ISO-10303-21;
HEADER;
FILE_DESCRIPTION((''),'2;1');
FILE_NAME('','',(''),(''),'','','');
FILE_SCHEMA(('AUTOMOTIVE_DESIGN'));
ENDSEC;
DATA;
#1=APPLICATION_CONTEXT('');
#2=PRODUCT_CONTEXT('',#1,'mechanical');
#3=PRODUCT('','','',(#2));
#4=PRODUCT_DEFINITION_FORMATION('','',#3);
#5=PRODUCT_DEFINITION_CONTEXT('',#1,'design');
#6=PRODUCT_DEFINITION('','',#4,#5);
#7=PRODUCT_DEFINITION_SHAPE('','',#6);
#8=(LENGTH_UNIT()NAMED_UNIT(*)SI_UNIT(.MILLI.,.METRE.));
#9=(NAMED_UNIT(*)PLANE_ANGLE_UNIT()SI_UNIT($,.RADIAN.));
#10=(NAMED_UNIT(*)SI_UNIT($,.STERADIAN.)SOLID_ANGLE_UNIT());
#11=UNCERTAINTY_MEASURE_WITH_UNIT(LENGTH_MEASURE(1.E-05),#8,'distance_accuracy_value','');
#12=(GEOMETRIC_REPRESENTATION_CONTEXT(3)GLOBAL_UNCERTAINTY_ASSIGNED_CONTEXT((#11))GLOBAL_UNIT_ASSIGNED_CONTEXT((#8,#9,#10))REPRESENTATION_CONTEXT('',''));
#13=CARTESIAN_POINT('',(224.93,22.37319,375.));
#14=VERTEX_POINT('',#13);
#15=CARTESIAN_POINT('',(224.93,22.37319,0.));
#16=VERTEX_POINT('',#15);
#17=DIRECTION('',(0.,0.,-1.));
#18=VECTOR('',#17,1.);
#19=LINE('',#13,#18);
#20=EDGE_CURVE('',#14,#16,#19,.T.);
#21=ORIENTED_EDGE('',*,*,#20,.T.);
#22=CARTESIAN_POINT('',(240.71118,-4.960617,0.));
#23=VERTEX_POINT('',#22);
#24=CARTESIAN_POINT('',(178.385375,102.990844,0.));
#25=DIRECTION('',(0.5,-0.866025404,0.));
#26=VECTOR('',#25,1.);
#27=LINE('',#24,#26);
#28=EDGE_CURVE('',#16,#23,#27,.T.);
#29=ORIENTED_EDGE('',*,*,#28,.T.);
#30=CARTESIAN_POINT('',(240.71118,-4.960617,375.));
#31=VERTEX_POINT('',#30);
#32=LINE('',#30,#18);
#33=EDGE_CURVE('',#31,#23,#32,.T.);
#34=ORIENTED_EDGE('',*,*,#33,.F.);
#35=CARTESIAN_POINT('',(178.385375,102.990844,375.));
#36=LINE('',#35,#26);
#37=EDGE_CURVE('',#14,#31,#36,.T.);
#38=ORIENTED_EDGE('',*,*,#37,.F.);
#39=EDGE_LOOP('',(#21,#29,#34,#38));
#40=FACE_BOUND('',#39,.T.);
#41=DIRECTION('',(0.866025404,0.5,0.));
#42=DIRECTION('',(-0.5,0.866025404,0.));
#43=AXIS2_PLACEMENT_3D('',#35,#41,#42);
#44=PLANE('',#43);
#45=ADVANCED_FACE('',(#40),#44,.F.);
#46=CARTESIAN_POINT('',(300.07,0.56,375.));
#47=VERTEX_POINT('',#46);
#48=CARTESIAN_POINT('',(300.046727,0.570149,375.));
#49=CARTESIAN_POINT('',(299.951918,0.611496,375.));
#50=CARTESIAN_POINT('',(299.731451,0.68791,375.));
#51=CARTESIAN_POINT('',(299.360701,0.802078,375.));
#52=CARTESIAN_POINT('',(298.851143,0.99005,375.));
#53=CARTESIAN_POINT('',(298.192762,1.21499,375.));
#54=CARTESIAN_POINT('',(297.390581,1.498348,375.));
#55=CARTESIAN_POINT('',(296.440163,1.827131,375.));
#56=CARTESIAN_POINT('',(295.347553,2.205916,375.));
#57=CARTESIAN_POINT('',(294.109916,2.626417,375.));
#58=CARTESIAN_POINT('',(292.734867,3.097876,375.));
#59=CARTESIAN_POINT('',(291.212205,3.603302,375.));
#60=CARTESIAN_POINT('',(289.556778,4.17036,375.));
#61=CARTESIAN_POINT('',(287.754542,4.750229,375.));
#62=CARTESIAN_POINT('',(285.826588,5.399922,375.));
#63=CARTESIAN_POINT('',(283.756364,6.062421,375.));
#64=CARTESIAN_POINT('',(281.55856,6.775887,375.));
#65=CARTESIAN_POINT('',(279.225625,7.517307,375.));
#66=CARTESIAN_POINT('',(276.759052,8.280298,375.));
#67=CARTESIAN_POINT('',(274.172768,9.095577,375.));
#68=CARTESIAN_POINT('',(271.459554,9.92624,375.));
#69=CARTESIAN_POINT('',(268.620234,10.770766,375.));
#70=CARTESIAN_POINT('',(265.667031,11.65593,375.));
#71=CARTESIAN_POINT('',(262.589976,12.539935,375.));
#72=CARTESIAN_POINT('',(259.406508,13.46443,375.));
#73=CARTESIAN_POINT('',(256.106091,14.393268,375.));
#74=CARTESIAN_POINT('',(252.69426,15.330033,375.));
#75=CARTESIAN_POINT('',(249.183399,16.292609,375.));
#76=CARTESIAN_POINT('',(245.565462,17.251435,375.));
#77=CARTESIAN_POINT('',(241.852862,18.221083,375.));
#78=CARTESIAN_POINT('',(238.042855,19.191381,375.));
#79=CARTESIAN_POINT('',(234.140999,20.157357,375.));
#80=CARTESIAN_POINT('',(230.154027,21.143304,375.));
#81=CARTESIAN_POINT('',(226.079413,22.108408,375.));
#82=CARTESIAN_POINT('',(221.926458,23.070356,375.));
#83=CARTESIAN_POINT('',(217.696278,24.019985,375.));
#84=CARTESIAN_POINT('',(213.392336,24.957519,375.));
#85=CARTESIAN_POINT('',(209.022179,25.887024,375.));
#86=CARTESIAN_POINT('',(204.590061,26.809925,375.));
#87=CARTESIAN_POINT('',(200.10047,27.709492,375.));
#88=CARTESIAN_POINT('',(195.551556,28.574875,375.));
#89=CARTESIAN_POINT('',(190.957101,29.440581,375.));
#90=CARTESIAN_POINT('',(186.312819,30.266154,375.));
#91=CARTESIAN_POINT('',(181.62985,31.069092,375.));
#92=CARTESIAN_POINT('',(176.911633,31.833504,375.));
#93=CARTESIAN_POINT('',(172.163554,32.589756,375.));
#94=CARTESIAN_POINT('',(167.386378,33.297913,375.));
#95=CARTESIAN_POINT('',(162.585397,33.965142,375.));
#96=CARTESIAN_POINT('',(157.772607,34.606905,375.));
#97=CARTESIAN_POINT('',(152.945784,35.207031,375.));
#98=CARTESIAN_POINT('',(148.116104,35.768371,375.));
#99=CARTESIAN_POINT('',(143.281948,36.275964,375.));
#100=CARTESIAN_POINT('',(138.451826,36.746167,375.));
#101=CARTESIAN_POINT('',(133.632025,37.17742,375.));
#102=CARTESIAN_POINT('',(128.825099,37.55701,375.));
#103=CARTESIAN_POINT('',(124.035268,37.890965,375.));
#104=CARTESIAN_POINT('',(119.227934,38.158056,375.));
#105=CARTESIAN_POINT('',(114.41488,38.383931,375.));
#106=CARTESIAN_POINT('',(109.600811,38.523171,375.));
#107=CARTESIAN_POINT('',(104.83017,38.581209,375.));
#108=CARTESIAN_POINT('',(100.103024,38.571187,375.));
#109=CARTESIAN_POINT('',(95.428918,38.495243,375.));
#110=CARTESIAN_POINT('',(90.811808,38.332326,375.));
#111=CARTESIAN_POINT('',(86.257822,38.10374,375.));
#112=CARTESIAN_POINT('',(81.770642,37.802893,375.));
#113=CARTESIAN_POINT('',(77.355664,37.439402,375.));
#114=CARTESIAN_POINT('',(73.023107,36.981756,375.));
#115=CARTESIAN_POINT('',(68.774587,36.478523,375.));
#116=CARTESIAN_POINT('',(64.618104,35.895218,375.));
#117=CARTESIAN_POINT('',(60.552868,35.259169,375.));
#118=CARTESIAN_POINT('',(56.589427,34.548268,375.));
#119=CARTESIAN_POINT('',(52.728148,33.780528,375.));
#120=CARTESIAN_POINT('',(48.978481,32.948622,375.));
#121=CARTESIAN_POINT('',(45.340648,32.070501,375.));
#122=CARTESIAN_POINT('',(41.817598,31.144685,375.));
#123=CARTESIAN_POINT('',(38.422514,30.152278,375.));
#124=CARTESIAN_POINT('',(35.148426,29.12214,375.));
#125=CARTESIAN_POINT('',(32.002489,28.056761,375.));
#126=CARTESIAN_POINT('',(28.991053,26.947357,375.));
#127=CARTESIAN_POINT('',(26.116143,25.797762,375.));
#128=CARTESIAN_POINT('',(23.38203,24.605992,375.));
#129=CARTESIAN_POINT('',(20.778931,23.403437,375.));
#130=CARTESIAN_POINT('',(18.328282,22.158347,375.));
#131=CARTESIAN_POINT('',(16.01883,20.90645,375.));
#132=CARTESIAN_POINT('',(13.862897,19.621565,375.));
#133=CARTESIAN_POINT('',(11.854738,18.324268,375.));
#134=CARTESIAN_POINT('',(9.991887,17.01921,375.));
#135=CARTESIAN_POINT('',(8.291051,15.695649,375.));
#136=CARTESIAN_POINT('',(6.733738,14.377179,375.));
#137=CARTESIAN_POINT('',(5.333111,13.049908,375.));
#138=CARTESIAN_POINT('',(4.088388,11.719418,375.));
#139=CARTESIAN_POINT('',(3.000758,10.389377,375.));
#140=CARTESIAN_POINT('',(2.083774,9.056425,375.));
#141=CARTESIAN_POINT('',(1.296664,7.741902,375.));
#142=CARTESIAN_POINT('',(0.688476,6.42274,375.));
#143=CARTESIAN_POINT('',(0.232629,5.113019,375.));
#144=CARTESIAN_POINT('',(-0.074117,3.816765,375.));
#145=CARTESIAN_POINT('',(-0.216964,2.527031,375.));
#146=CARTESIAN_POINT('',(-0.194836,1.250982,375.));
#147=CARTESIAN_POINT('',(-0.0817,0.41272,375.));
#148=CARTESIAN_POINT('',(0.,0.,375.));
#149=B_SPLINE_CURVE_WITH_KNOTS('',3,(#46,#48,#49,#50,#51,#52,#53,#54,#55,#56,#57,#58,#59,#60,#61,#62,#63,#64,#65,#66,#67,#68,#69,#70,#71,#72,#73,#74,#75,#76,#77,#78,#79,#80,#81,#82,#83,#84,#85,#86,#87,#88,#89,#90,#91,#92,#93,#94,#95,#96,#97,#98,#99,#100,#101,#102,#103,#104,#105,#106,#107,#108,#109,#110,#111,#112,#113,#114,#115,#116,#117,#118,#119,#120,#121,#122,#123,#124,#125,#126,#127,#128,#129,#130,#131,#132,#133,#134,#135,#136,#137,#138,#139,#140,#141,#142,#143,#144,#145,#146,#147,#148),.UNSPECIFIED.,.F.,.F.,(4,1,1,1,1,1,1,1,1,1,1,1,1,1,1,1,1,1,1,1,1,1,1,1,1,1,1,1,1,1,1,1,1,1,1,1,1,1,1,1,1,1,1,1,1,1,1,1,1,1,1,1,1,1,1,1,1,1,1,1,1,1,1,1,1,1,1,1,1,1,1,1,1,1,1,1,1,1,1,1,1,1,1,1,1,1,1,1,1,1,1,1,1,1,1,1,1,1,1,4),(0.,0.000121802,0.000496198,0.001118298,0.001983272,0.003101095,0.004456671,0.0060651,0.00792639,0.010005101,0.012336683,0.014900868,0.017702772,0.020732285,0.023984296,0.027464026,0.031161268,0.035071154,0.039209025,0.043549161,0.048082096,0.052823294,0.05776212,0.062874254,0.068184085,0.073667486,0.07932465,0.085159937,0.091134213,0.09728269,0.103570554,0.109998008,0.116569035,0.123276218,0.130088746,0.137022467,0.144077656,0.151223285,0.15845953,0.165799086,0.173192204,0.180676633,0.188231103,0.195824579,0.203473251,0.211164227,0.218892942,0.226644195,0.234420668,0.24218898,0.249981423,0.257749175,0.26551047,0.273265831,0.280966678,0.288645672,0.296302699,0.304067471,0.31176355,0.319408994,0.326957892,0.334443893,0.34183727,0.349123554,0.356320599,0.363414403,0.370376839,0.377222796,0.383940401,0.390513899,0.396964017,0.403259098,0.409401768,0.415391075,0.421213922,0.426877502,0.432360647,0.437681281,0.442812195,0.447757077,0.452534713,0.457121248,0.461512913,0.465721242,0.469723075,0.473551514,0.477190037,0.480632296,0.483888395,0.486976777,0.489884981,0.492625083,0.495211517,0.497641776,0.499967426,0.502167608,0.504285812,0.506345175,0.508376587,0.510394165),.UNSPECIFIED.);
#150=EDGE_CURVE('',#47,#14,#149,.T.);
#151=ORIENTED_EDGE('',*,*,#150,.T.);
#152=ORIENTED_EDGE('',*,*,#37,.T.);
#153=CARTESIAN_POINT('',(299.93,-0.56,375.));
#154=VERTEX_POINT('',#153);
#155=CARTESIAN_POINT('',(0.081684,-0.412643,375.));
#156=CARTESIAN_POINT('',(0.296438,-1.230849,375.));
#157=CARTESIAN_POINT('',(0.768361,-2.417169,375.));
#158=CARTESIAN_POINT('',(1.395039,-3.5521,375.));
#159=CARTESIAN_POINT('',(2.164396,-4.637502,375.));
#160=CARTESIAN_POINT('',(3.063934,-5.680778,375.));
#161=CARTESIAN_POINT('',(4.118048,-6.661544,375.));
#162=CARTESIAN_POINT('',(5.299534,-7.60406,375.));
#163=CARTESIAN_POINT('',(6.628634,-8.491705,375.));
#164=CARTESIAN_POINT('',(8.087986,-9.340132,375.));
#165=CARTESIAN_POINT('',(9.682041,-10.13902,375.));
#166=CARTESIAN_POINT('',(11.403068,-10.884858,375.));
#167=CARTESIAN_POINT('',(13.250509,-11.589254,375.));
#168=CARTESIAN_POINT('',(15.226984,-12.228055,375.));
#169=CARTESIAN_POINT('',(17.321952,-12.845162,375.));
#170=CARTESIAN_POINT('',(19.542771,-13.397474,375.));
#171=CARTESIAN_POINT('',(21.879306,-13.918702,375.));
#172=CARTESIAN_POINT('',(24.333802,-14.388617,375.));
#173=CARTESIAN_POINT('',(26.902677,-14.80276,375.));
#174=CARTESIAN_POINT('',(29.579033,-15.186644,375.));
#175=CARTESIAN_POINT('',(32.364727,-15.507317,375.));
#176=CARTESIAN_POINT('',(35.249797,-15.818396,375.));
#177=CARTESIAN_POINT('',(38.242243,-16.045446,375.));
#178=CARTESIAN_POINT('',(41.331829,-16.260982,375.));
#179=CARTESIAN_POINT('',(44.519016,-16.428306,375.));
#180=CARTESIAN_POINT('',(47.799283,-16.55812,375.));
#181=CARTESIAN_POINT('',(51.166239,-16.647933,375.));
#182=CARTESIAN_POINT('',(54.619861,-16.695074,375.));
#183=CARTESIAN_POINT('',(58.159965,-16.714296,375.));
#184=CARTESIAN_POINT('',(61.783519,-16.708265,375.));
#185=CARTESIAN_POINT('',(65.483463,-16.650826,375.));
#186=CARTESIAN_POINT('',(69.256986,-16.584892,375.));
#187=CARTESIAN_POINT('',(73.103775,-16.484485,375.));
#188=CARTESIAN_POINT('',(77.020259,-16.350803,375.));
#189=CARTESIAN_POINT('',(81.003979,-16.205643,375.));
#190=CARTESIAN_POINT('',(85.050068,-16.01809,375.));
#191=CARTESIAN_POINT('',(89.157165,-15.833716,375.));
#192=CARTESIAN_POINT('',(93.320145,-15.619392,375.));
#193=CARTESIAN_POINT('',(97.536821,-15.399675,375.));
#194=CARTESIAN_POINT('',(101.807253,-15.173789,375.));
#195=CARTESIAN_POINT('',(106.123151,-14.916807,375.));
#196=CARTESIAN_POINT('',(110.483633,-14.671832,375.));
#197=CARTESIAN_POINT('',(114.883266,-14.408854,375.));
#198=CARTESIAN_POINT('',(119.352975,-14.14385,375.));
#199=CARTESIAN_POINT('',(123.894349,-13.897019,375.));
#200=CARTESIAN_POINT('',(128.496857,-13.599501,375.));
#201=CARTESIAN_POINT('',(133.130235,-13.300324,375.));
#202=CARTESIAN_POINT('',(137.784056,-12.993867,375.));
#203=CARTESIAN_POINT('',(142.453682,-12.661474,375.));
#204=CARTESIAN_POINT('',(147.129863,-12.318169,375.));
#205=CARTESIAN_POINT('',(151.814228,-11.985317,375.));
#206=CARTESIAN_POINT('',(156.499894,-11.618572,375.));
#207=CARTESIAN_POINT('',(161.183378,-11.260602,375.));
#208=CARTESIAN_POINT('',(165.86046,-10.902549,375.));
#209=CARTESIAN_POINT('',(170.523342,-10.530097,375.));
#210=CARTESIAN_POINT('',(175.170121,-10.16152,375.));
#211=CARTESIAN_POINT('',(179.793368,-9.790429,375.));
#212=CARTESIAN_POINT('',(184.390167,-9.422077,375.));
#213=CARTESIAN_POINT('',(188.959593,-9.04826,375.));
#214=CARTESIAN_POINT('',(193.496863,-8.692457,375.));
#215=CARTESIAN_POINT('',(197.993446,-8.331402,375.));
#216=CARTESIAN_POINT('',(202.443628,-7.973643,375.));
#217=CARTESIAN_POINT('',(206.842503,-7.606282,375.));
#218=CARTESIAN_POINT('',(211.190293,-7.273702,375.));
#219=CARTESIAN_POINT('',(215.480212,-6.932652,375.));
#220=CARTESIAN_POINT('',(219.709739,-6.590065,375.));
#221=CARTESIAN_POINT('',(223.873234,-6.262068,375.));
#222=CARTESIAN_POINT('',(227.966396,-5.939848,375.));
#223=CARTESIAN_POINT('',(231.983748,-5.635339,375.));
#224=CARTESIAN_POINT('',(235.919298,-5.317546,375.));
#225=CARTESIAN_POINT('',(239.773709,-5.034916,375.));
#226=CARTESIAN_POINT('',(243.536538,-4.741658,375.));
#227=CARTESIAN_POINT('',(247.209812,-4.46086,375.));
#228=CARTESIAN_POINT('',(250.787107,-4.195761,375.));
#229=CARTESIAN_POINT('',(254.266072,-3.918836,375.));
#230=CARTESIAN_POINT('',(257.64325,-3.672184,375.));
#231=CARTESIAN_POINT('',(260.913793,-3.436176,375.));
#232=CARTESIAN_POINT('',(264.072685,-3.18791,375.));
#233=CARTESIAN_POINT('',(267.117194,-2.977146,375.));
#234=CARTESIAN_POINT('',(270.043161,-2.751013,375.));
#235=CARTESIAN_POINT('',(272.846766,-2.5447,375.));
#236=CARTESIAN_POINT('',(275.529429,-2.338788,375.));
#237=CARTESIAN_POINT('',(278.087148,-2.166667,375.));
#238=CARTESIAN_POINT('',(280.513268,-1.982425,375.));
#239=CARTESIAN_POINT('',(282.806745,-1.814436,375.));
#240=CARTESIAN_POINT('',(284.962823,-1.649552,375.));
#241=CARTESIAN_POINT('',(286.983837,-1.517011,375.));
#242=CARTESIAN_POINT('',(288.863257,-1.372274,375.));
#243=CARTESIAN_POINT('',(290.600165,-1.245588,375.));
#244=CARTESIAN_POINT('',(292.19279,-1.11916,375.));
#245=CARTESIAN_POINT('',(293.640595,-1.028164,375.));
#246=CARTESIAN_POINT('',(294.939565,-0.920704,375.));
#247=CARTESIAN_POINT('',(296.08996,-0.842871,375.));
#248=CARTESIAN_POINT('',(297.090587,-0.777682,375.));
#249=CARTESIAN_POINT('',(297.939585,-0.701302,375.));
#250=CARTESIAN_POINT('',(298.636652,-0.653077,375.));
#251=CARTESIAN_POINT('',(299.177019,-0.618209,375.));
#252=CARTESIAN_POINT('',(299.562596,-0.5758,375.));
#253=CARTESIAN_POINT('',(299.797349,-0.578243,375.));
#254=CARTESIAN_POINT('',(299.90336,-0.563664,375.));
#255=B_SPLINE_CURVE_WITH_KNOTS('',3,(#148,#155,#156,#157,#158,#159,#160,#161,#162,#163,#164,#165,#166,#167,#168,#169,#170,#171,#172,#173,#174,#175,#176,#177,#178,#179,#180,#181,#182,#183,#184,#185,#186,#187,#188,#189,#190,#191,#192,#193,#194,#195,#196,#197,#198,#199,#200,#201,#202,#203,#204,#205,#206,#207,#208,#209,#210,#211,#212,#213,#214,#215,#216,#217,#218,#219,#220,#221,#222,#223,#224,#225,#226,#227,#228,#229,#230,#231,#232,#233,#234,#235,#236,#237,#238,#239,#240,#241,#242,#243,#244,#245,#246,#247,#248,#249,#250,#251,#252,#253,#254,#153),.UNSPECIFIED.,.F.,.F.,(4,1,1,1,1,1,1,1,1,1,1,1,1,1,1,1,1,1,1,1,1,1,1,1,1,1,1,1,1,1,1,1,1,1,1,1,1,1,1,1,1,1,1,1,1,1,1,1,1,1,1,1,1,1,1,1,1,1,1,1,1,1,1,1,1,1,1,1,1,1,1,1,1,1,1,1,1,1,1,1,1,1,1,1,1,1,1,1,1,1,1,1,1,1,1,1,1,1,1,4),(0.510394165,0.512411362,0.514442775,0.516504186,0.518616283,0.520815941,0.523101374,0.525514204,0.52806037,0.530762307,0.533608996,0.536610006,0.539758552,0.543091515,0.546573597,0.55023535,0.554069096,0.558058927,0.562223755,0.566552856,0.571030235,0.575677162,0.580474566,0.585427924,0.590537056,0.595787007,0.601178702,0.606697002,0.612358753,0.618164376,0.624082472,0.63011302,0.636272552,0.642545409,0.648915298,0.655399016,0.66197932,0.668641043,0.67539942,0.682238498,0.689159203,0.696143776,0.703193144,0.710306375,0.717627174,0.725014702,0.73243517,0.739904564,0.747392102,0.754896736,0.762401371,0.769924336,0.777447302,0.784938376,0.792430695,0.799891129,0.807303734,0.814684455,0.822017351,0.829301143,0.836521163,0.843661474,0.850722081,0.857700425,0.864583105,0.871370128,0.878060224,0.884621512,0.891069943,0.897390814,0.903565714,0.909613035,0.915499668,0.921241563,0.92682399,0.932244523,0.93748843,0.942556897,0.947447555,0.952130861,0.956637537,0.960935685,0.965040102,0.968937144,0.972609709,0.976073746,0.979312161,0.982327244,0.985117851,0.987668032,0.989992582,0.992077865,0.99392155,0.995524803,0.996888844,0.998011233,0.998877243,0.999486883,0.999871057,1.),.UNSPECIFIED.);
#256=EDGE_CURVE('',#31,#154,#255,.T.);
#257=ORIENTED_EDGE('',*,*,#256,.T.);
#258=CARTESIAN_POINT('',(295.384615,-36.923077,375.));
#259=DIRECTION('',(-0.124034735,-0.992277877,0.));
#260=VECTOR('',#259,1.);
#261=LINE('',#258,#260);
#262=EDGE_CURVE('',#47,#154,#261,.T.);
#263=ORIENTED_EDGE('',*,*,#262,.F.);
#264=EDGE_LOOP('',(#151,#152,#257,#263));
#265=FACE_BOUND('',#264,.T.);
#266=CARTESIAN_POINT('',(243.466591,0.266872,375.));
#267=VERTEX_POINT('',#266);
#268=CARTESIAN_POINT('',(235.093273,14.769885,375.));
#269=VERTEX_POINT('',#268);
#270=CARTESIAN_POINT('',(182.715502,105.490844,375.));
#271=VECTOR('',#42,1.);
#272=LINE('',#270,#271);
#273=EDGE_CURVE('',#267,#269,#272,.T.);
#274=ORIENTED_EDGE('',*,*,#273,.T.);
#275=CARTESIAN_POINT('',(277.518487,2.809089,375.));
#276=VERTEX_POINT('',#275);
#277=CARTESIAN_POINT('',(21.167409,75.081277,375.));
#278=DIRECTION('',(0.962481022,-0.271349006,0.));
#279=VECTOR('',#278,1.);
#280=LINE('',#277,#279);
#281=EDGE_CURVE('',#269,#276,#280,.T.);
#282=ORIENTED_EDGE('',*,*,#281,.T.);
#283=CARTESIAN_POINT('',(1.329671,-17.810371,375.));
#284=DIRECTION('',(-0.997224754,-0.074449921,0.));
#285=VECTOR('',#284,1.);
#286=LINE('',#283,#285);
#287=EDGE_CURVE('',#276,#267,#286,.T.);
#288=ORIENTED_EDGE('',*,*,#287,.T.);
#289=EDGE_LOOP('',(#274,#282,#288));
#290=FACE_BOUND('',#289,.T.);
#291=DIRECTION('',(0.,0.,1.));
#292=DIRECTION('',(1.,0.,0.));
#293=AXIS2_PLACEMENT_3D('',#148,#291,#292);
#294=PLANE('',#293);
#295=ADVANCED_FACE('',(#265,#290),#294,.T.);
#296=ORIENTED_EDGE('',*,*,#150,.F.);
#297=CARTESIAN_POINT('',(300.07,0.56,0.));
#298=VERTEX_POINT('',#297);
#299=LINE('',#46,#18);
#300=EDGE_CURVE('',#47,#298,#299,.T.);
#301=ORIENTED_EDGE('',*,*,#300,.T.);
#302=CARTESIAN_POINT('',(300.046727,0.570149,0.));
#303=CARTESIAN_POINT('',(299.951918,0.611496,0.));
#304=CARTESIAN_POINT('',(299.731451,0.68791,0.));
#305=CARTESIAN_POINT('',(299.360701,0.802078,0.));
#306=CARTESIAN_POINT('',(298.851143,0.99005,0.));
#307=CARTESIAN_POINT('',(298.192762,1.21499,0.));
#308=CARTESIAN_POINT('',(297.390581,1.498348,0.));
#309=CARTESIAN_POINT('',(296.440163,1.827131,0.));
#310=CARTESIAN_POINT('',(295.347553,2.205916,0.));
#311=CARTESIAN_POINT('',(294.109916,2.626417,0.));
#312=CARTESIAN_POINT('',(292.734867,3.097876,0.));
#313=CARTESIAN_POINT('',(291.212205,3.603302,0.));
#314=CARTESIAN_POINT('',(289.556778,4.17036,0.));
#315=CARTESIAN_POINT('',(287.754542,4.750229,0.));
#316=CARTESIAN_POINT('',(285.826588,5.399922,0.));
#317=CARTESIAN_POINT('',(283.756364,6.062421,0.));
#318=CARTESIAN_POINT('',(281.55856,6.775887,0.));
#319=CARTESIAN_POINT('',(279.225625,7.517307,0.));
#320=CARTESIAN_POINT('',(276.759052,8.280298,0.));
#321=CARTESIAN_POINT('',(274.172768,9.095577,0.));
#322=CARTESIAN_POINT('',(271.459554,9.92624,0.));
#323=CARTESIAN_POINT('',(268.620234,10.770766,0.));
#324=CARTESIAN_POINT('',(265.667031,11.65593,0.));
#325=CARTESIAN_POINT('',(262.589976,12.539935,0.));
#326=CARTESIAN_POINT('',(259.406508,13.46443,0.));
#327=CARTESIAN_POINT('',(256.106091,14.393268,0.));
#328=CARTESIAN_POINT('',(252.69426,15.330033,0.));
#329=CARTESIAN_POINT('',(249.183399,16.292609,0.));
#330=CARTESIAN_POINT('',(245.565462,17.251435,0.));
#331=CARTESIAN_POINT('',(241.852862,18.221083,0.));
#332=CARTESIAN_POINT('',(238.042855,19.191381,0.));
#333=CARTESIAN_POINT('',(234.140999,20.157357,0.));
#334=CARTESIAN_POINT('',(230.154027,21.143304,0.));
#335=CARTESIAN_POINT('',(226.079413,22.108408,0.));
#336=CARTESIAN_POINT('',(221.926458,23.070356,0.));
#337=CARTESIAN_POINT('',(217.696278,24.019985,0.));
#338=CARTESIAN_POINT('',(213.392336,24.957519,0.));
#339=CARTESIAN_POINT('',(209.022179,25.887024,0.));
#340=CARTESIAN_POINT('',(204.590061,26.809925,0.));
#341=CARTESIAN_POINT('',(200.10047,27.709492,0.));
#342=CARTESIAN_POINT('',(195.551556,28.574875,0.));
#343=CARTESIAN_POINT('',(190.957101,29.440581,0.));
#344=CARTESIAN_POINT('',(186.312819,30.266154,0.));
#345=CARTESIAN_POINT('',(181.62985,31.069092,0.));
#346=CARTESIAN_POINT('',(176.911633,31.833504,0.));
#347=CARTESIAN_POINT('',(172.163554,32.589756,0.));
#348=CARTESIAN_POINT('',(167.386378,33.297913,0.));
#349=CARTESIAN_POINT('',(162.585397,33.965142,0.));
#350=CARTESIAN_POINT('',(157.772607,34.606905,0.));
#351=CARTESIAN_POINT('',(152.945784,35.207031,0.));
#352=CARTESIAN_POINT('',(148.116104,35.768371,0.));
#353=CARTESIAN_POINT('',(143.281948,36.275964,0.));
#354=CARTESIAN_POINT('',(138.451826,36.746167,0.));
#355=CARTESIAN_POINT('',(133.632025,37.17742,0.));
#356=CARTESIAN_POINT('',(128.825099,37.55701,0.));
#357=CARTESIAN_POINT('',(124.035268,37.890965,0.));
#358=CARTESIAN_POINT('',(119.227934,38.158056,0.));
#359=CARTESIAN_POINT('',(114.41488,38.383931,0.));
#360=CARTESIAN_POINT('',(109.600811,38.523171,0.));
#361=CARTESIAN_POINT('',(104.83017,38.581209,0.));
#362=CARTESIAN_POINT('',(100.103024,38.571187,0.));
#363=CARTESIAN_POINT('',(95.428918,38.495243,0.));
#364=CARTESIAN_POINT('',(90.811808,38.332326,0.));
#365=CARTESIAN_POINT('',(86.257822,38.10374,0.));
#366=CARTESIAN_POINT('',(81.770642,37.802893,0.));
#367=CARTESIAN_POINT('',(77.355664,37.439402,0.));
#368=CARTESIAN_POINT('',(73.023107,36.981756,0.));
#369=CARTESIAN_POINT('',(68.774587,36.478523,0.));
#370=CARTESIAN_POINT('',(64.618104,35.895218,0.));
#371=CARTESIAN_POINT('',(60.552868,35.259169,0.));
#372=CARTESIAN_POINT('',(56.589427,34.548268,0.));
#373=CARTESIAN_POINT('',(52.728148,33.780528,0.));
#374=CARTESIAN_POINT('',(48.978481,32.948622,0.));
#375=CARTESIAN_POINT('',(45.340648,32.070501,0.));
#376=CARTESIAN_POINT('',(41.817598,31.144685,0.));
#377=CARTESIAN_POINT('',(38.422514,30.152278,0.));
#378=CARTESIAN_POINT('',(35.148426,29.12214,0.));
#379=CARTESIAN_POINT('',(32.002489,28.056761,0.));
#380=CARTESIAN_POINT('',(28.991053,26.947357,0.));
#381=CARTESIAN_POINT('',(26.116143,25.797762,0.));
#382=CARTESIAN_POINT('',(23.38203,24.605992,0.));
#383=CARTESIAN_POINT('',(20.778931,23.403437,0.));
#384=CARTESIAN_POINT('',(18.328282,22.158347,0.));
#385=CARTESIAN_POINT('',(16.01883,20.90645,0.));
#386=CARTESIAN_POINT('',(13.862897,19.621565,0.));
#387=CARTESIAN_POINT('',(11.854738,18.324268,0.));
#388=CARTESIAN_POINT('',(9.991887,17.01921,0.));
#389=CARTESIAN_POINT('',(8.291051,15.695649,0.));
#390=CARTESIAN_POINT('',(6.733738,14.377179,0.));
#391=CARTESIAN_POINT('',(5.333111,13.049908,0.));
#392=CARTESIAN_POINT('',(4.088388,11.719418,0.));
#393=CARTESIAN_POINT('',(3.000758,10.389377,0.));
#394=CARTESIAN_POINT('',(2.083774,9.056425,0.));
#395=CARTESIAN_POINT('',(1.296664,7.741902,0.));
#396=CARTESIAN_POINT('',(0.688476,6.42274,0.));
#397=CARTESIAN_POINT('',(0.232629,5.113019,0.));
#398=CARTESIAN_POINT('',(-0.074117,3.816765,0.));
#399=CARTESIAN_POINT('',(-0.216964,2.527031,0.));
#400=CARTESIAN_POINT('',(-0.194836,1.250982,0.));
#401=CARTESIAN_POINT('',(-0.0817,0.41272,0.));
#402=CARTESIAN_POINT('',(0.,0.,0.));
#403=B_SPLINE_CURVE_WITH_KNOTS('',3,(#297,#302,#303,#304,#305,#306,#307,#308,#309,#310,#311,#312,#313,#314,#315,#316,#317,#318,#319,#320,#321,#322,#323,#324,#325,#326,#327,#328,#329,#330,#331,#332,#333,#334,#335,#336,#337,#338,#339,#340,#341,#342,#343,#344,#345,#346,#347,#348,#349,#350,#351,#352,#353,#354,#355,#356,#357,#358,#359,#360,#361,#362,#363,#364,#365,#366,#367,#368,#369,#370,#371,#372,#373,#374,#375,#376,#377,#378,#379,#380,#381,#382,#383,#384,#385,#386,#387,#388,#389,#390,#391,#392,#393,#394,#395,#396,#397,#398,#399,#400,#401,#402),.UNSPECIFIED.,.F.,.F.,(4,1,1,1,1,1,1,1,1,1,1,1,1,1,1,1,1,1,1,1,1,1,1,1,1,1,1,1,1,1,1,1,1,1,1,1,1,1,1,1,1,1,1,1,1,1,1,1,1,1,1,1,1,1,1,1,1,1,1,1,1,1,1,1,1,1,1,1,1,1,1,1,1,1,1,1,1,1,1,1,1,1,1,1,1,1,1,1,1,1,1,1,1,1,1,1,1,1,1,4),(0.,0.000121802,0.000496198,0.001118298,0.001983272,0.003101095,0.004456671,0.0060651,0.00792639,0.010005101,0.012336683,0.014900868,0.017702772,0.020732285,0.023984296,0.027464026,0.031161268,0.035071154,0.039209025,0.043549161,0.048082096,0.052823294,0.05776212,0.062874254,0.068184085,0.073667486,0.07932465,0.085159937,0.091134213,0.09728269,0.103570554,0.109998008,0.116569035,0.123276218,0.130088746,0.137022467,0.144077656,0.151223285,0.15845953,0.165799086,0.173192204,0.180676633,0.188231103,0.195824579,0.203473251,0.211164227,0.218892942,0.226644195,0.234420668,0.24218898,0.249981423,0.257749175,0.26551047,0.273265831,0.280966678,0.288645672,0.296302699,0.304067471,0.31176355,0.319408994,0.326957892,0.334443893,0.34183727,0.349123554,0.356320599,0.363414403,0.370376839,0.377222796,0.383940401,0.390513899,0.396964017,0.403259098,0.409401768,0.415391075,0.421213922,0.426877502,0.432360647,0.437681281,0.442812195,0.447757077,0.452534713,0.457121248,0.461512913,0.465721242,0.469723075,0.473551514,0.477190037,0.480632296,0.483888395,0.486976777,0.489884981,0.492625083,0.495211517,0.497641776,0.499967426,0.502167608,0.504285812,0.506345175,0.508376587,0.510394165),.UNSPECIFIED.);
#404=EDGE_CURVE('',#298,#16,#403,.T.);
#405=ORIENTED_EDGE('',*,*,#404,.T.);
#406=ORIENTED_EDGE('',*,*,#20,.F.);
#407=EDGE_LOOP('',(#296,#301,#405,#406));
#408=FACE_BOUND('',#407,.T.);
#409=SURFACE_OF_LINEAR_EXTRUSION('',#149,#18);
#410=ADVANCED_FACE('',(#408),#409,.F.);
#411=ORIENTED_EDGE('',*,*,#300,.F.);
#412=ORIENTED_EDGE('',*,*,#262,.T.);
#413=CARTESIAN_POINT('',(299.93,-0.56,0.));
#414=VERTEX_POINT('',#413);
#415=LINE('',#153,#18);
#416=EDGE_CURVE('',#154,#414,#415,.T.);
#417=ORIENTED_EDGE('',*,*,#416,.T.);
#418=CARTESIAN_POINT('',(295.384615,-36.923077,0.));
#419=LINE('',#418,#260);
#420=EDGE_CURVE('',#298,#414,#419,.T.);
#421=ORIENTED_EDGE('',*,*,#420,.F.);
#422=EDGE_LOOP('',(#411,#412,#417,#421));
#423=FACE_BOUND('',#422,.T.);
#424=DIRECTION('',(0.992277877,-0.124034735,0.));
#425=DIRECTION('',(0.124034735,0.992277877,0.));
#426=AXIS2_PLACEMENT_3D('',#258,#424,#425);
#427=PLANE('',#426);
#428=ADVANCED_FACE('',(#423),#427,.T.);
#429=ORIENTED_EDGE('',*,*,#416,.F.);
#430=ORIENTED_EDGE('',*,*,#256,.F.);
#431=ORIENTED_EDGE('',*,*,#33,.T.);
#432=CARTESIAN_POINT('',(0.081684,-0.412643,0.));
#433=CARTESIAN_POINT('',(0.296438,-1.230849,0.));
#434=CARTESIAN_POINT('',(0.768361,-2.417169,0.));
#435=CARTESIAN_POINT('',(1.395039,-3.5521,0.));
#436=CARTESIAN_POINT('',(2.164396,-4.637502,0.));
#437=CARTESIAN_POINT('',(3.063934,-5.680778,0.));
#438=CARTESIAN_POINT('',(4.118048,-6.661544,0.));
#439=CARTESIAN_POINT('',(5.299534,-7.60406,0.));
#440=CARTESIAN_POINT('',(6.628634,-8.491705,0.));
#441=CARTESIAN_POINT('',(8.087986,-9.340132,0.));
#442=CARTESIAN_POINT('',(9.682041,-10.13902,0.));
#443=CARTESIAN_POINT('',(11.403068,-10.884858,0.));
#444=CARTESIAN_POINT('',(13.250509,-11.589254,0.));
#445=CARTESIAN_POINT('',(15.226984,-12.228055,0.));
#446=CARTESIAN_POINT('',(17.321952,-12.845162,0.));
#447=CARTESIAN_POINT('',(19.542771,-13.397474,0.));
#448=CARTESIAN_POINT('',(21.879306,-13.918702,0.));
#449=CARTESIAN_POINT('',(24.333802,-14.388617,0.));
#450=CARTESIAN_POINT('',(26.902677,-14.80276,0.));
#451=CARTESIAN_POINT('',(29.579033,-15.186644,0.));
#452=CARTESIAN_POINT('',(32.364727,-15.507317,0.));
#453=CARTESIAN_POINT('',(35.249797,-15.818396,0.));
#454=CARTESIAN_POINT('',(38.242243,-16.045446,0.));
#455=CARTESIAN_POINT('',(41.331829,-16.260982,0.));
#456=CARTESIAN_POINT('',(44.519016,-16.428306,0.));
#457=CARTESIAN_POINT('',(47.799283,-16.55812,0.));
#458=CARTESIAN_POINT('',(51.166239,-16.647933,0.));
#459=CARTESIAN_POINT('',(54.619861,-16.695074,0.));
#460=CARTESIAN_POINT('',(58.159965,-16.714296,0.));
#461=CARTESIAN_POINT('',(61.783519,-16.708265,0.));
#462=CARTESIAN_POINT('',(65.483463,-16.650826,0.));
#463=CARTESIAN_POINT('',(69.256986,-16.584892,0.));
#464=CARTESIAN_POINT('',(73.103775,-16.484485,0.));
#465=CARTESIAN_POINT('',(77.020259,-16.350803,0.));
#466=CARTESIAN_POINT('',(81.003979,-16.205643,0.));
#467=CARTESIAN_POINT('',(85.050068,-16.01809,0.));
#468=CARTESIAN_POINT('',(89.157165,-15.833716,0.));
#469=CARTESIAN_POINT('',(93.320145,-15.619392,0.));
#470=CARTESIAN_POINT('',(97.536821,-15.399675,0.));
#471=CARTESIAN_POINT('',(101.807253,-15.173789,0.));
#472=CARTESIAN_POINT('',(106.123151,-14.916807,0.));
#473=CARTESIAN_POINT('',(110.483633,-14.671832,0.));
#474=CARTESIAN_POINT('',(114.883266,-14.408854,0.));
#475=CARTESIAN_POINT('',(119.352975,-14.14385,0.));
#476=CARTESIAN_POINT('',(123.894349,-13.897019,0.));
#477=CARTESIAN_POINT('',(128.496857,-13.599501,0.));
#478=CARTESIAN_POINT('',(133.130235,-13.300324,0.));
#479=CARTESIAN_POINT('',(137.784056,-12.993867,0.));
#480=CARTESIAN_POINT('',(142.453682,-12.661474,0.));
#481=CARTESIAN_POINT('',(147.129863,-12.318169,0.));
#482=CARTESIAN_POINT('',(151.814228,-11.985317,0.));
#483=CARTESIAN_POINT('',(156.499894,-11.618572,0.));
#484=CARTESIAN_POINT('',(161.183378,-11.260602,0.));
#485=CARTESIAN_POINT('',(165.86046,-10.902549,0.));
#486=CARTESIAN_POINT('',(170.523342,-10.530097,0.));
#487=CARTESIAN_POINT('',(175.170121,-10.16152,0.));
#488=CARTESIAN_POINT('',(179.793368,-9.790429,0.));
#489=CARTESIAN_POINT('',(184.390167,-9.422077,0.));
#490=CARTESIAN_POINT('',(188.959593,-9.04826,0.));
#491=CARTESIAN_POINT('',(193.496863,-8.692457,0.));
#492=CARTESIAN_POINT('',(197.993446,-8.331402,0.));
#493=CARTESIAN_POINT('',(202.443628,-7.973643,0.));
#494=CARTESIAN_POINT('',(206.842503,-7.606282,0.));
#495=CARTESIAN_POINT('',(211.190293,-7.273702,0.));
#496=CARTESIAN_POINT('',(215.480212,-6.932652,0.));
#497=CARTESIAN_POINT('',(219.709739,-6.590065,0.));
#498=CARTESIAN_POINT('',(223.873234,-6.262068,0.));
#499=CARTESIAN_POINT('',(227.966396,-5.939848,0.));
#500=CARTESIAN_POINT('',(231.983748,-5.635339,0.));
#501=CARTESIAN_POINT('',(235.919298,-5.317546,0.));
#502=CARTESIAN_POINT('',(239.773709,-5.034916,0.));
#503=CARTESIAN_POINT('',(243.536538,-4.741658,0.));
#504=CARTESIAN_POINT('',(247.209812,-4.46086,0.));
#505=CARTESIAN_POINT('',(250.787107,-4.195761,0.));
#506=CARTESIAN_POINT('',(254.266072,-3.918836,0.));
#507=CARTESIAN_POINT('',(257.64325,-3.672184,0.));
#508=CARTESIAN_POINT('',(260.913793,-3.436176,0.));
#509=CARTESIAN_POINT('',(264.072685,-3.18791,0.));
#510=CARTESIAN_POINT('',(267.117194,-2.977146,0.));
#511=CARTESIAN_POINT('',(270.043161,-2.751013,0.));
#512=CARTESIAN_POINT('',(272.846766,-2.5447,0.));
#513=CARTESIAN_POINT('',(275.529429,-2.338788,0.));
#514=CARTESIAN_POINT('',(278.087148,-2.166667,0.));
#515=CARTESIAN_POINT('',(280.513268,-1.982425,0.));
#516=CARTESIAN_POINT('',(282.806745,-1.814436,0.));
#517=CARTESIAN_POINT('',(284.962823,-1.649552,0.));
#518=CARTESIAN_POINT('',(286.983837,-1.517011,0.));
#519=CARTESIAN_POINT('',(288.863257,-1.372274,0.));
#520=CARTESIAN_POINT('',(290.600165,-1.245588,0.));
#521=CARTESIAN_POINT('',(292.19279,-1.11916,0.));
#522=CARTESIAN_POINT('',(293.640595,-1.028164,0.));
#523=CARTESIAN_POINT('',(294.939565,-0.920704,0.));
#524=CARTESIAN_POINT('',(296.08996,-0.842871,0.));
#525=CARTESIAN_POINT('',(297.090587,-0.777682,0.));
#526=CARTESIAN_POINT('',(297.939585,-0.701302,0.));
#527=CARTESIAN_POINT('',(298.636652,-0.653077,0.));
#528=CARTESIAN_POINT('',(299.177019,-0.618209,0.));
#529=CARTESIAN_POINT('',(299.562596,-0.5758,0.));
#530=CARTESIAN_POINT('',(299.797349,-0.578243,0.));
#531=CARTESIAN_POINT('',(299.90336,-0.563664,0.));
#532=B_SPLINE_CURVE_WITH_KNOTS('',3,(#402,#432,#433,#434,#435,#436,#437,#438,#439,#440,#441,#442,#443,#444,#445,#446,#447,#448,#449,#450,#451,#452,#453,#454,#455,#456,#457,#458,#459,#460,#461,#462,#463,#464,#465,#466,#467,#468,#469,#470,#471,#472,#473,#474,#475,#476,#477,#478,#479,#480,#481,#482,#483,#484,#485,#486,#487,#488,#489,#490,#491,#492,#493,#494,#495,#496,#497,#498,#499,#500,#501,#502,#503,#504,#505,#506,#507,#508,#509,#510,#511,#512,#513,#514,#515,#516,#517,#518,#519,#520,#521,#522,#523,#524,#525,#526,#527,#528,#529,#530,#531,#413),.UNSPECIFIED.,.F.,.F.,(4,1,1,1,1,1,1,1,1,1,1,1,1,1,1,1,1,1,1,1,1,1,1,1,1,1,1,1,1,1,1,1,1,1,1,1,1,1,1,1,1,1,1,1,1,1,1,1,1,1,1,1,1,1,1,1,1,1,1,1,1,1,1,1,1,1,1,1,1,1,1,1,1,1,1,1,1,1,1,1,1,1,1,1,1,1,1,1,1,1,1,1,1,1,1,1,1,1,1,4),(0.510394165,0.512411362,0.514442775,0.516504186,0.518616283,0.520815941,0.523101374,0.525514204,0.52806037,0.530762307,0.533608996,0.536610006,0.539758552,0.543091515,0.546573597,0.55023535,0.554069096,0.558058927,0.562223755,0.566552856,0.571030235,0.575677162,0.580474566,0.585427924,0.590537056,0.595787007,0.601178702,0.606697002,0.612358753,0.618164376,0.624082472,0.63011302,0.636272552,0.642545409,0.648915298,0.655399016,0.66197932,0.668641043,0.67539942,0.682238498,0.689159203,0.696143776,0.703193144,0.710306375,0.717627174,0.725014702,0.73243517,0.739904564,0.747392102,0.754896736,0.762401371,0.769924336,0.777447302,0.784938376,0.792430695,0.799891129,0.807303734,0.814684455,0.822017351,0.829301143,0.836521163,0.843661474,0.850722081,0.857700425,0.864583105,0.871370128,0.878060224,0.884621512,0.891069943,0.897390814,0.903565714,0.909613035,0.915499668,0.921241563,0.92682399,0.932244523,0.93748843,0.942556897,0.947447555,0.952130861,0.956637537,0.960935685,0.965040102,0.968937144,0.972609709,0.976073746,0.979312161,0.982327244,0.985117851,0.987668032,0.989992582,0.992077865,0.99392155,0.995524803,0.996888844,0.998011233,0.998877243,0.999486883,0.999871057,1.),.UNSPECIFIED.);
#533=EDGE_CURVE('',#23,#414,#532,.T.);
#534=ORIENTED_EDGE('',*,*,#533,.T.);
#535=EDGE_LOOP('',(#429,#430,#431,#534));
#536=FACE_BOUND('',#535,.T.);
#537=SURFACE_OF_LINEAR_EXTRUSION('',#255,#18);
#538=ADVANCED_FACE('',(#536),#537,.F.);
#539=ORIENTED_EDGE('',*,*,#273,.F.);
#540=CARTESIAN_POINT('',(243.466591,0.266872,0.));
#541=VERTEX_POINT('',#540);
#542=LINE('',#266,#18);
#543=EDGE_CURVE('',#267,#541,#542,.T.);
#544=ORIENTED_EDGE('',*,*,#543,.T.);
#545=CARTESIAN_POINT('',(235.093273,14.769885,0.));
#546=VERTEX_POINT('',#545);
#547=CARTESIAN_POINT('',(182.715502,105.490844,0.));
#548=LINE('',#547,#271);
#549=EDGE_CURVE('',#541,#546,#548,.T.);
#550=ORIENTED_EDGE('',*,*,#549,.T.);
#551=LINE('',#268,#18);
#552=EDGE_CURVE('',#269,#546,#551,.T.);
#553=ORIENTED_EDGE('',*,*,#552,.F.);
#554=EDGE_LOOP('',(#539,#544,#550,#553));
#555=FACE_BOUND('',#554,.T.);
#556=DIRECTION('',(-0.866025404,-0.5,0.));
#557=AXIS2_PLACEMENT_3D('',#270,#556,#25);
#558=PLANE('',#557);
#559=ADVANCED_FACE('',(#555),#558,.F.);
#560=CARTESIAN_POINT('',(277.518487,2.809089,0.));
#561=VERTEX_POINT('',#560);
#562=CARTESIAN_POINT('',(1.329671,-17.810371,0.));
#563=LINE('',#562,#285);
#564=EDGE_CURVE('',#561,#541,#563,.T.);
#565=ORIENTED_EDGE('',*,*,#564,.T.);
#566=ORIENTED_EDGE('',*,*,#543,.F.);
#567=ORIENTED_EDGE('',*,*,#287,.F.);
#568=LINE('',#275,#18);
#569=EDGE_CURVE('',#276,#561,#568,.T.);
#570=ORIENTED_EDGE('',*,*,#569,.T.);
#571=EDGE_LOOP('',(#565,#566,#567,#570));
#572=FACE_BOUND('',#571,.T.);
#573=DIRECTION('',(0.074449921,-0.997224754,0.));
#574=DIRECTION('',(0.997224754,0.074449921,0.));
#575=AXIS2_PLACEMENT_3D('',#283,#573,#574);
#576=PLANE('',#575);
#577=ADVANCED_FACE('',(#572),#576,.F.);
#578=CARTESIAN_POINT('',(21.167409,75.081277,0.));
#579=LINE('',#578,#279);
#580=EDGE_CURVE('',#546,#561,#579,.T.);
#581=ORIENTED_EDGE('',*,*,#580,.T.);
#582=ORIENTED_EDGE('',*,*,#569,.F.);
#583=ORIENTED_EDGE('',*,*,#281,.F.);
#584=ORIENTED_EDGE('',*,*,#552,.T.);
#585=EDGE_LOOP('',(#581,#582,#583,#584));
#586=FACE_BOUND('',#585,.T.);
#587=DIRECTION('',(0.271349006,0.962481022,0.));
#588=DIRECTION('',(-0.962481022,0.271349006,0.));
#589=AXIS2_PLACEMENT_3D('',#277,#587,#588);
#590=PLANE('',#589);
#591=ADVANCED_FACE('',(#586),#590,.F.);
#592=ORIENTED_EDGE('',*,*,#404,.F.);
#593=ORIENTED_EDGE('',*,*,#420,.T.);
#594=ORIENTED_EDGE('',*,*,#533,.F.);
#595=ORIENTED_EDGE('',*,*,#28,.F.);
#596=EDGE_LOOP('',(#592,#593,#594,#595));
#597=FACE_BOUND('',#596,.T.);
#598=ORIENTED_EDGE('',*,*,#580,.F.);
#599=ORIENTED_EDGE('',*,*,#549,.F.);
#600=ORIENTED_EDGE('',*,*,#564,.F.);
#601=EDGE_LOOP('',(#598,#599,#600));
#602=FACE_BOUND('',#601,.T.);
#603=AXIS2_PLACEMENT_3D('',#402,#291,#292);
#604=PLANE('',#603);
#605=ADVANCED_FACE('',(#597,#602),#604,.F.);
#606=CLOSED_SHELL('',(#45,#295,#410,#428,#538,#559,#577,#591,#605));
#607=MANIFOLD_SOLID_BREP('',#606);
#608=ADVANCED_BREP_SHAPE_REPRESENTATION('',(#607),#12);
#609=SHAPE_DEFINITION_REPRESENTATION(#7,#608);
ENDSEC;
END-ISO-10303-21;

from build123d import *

# Parameters (mm, degrees)
BOSS_EXTRUDE1_DEPTH = 375


with BuildPart() as part:
    # Master sketch-Wing Geometry Master Sketc → Boss-Extrude1 (new body)
    with BuildSketch(Plane.XY):
        with BuildLine():
            Line((299.93, -0.56), (300.07, 0.56))
            add(Edge.make_bspline(
                [(300.07, 0.56), (300.046727211, 0.570149465), (299.951918411, 0.611496405), (299.73145109, 0.687910176), (299.360701306, 0.80207776), (298.851143071, 0.99004976), (298.192762058, 1.214989557), (297.390581316, 1.498347711), (296.440162644, 1.827131445), (295.347552696, 2.205915898), (294.109915848, 2.626416664), (292.734867315, 3.097875543), (291.212205014, 3.603301609), (289.556778296, 4.170360104), (287.754541524, 4.750229424), (285.826587723, 5.399922294), (283.756363975, 6.062421055), (281.558560221, 6.775887077), (279.22562543, 7.517307408), (276.759052146, 8.280298176), (274.172767845, 9.09557711), (271.459553567, 9.926240206), (268.620233525, 10.77076618), (265.667031068, 11.655929728), (262.589976024, 12.539934752), (259.406507793, 13.464429613), (256.106091201, 14.393267862), (252.694259979, 15.330032696), (249.183398904, 16.29260897), (245.565461503, 17.251434656), (241.852861879, 18.22108263), (238.042855476, 19.19138103), (234.140998952, 20.15735732), (230.154027103, 21.143304457), (227.071354515, 21.873459433), (225.320067796, 22.282419133), (224.93, 22.373189537)],
                knots=[0, 0, 0, 0, 0.000121802, 0.000496198, 0.001118298, 0.001983272, 0.003101095, 0.004456671, 0.0060651, 0.00792639, 0.010005101, 0.012336683, 0.014900868, 0.017702772, 0.020732285, 0.023984296, 0.027464026, 0.031161268, 0.035071154, 0.039209025, 0.043549161, 0.048082096, 0.052823294, 0.05776212, 0.062874254, 0.068184085, 0.073667486, 0.07932465, 0.085159937, 0.091134213, 0.09728269, 0.103570554, 0.109998008, 0.116569035, 0.123276218, 0.125197771, 0.125197771, 0.125197771, 0.125197771], degree=3))
            Line((224.93, 22.373189537), (240.711180377, -4.960616679))
            add(Edge.make_bspline(
                [(240.711180377, -4.960616679), (241.664163028, -4.887637656), (243.840258172, -4.718440324), (247.20981219, -4.46085993), (250.787106765, -4.195760616), (254.266072169, -3.918835614), (257.64325016, -3.672183933), (260.913793207, -3.436175985), (264.072684975, -3.187909636), (267.117194027, -2.977146375), (270.04316125, -2.751013416), (272.846765874, -2.544700113), (275.529429199, -2.33878816), (278.087148077, -2.166666674), (280.513268395, -1.982425314), (282.806745266, -1.814435769), (284.962823137, -1.649552143), (286.983837234, -1.517010694), (288.863257365, -1.37227381), (290.600165156, -1.245587565), (292.192790163, -1.119159502), (293.640594786, -1.028164187), (294.939565333, -0.920704317), (296.089960301, -0.842870725), (297.090587221, -0.777681987), (297.939585238, -0.701301857), (298.63665195, -0.653077401), (299.177018782, -0.618208827), (299.562595702, -0.575799674), (299.797349193, -0.578243239), (299.903360171, -0.56366373), (299.93, -0.56)],
                knots=[0.905027219, 0.905027219, 0.905027219, 0.905027219, 0.909613035, 0.915499668, 0.921241563, 0.92682399, 0.932244523, 0.93748843, 0.942556897, 0.947447555, 0.952130861, 0.956637537, 0.960935685, 0.965040102, 0.968937144, 0.972609709, 0.976073746, 0.979312161, 0.982327244, 0.985117851, 0.987668032, 0.989992582, 0.992077865, 0.99392155, 0.995524803, 0.996888844, 0.998011233, 0.998877243, 0.999486883, 0.999871057, 1, 1, 1, 1], degree=3))
        make_face()
        Polygon((277.5184867, 2.809088635), (243.466590848, 0.266872389), (235.093272506, 14.769885184), align=None, mode=Mode.SUBTRACT)
    extrude(amount=BOSS_EXTRUDE1_DEPTH)


solid = part.part
